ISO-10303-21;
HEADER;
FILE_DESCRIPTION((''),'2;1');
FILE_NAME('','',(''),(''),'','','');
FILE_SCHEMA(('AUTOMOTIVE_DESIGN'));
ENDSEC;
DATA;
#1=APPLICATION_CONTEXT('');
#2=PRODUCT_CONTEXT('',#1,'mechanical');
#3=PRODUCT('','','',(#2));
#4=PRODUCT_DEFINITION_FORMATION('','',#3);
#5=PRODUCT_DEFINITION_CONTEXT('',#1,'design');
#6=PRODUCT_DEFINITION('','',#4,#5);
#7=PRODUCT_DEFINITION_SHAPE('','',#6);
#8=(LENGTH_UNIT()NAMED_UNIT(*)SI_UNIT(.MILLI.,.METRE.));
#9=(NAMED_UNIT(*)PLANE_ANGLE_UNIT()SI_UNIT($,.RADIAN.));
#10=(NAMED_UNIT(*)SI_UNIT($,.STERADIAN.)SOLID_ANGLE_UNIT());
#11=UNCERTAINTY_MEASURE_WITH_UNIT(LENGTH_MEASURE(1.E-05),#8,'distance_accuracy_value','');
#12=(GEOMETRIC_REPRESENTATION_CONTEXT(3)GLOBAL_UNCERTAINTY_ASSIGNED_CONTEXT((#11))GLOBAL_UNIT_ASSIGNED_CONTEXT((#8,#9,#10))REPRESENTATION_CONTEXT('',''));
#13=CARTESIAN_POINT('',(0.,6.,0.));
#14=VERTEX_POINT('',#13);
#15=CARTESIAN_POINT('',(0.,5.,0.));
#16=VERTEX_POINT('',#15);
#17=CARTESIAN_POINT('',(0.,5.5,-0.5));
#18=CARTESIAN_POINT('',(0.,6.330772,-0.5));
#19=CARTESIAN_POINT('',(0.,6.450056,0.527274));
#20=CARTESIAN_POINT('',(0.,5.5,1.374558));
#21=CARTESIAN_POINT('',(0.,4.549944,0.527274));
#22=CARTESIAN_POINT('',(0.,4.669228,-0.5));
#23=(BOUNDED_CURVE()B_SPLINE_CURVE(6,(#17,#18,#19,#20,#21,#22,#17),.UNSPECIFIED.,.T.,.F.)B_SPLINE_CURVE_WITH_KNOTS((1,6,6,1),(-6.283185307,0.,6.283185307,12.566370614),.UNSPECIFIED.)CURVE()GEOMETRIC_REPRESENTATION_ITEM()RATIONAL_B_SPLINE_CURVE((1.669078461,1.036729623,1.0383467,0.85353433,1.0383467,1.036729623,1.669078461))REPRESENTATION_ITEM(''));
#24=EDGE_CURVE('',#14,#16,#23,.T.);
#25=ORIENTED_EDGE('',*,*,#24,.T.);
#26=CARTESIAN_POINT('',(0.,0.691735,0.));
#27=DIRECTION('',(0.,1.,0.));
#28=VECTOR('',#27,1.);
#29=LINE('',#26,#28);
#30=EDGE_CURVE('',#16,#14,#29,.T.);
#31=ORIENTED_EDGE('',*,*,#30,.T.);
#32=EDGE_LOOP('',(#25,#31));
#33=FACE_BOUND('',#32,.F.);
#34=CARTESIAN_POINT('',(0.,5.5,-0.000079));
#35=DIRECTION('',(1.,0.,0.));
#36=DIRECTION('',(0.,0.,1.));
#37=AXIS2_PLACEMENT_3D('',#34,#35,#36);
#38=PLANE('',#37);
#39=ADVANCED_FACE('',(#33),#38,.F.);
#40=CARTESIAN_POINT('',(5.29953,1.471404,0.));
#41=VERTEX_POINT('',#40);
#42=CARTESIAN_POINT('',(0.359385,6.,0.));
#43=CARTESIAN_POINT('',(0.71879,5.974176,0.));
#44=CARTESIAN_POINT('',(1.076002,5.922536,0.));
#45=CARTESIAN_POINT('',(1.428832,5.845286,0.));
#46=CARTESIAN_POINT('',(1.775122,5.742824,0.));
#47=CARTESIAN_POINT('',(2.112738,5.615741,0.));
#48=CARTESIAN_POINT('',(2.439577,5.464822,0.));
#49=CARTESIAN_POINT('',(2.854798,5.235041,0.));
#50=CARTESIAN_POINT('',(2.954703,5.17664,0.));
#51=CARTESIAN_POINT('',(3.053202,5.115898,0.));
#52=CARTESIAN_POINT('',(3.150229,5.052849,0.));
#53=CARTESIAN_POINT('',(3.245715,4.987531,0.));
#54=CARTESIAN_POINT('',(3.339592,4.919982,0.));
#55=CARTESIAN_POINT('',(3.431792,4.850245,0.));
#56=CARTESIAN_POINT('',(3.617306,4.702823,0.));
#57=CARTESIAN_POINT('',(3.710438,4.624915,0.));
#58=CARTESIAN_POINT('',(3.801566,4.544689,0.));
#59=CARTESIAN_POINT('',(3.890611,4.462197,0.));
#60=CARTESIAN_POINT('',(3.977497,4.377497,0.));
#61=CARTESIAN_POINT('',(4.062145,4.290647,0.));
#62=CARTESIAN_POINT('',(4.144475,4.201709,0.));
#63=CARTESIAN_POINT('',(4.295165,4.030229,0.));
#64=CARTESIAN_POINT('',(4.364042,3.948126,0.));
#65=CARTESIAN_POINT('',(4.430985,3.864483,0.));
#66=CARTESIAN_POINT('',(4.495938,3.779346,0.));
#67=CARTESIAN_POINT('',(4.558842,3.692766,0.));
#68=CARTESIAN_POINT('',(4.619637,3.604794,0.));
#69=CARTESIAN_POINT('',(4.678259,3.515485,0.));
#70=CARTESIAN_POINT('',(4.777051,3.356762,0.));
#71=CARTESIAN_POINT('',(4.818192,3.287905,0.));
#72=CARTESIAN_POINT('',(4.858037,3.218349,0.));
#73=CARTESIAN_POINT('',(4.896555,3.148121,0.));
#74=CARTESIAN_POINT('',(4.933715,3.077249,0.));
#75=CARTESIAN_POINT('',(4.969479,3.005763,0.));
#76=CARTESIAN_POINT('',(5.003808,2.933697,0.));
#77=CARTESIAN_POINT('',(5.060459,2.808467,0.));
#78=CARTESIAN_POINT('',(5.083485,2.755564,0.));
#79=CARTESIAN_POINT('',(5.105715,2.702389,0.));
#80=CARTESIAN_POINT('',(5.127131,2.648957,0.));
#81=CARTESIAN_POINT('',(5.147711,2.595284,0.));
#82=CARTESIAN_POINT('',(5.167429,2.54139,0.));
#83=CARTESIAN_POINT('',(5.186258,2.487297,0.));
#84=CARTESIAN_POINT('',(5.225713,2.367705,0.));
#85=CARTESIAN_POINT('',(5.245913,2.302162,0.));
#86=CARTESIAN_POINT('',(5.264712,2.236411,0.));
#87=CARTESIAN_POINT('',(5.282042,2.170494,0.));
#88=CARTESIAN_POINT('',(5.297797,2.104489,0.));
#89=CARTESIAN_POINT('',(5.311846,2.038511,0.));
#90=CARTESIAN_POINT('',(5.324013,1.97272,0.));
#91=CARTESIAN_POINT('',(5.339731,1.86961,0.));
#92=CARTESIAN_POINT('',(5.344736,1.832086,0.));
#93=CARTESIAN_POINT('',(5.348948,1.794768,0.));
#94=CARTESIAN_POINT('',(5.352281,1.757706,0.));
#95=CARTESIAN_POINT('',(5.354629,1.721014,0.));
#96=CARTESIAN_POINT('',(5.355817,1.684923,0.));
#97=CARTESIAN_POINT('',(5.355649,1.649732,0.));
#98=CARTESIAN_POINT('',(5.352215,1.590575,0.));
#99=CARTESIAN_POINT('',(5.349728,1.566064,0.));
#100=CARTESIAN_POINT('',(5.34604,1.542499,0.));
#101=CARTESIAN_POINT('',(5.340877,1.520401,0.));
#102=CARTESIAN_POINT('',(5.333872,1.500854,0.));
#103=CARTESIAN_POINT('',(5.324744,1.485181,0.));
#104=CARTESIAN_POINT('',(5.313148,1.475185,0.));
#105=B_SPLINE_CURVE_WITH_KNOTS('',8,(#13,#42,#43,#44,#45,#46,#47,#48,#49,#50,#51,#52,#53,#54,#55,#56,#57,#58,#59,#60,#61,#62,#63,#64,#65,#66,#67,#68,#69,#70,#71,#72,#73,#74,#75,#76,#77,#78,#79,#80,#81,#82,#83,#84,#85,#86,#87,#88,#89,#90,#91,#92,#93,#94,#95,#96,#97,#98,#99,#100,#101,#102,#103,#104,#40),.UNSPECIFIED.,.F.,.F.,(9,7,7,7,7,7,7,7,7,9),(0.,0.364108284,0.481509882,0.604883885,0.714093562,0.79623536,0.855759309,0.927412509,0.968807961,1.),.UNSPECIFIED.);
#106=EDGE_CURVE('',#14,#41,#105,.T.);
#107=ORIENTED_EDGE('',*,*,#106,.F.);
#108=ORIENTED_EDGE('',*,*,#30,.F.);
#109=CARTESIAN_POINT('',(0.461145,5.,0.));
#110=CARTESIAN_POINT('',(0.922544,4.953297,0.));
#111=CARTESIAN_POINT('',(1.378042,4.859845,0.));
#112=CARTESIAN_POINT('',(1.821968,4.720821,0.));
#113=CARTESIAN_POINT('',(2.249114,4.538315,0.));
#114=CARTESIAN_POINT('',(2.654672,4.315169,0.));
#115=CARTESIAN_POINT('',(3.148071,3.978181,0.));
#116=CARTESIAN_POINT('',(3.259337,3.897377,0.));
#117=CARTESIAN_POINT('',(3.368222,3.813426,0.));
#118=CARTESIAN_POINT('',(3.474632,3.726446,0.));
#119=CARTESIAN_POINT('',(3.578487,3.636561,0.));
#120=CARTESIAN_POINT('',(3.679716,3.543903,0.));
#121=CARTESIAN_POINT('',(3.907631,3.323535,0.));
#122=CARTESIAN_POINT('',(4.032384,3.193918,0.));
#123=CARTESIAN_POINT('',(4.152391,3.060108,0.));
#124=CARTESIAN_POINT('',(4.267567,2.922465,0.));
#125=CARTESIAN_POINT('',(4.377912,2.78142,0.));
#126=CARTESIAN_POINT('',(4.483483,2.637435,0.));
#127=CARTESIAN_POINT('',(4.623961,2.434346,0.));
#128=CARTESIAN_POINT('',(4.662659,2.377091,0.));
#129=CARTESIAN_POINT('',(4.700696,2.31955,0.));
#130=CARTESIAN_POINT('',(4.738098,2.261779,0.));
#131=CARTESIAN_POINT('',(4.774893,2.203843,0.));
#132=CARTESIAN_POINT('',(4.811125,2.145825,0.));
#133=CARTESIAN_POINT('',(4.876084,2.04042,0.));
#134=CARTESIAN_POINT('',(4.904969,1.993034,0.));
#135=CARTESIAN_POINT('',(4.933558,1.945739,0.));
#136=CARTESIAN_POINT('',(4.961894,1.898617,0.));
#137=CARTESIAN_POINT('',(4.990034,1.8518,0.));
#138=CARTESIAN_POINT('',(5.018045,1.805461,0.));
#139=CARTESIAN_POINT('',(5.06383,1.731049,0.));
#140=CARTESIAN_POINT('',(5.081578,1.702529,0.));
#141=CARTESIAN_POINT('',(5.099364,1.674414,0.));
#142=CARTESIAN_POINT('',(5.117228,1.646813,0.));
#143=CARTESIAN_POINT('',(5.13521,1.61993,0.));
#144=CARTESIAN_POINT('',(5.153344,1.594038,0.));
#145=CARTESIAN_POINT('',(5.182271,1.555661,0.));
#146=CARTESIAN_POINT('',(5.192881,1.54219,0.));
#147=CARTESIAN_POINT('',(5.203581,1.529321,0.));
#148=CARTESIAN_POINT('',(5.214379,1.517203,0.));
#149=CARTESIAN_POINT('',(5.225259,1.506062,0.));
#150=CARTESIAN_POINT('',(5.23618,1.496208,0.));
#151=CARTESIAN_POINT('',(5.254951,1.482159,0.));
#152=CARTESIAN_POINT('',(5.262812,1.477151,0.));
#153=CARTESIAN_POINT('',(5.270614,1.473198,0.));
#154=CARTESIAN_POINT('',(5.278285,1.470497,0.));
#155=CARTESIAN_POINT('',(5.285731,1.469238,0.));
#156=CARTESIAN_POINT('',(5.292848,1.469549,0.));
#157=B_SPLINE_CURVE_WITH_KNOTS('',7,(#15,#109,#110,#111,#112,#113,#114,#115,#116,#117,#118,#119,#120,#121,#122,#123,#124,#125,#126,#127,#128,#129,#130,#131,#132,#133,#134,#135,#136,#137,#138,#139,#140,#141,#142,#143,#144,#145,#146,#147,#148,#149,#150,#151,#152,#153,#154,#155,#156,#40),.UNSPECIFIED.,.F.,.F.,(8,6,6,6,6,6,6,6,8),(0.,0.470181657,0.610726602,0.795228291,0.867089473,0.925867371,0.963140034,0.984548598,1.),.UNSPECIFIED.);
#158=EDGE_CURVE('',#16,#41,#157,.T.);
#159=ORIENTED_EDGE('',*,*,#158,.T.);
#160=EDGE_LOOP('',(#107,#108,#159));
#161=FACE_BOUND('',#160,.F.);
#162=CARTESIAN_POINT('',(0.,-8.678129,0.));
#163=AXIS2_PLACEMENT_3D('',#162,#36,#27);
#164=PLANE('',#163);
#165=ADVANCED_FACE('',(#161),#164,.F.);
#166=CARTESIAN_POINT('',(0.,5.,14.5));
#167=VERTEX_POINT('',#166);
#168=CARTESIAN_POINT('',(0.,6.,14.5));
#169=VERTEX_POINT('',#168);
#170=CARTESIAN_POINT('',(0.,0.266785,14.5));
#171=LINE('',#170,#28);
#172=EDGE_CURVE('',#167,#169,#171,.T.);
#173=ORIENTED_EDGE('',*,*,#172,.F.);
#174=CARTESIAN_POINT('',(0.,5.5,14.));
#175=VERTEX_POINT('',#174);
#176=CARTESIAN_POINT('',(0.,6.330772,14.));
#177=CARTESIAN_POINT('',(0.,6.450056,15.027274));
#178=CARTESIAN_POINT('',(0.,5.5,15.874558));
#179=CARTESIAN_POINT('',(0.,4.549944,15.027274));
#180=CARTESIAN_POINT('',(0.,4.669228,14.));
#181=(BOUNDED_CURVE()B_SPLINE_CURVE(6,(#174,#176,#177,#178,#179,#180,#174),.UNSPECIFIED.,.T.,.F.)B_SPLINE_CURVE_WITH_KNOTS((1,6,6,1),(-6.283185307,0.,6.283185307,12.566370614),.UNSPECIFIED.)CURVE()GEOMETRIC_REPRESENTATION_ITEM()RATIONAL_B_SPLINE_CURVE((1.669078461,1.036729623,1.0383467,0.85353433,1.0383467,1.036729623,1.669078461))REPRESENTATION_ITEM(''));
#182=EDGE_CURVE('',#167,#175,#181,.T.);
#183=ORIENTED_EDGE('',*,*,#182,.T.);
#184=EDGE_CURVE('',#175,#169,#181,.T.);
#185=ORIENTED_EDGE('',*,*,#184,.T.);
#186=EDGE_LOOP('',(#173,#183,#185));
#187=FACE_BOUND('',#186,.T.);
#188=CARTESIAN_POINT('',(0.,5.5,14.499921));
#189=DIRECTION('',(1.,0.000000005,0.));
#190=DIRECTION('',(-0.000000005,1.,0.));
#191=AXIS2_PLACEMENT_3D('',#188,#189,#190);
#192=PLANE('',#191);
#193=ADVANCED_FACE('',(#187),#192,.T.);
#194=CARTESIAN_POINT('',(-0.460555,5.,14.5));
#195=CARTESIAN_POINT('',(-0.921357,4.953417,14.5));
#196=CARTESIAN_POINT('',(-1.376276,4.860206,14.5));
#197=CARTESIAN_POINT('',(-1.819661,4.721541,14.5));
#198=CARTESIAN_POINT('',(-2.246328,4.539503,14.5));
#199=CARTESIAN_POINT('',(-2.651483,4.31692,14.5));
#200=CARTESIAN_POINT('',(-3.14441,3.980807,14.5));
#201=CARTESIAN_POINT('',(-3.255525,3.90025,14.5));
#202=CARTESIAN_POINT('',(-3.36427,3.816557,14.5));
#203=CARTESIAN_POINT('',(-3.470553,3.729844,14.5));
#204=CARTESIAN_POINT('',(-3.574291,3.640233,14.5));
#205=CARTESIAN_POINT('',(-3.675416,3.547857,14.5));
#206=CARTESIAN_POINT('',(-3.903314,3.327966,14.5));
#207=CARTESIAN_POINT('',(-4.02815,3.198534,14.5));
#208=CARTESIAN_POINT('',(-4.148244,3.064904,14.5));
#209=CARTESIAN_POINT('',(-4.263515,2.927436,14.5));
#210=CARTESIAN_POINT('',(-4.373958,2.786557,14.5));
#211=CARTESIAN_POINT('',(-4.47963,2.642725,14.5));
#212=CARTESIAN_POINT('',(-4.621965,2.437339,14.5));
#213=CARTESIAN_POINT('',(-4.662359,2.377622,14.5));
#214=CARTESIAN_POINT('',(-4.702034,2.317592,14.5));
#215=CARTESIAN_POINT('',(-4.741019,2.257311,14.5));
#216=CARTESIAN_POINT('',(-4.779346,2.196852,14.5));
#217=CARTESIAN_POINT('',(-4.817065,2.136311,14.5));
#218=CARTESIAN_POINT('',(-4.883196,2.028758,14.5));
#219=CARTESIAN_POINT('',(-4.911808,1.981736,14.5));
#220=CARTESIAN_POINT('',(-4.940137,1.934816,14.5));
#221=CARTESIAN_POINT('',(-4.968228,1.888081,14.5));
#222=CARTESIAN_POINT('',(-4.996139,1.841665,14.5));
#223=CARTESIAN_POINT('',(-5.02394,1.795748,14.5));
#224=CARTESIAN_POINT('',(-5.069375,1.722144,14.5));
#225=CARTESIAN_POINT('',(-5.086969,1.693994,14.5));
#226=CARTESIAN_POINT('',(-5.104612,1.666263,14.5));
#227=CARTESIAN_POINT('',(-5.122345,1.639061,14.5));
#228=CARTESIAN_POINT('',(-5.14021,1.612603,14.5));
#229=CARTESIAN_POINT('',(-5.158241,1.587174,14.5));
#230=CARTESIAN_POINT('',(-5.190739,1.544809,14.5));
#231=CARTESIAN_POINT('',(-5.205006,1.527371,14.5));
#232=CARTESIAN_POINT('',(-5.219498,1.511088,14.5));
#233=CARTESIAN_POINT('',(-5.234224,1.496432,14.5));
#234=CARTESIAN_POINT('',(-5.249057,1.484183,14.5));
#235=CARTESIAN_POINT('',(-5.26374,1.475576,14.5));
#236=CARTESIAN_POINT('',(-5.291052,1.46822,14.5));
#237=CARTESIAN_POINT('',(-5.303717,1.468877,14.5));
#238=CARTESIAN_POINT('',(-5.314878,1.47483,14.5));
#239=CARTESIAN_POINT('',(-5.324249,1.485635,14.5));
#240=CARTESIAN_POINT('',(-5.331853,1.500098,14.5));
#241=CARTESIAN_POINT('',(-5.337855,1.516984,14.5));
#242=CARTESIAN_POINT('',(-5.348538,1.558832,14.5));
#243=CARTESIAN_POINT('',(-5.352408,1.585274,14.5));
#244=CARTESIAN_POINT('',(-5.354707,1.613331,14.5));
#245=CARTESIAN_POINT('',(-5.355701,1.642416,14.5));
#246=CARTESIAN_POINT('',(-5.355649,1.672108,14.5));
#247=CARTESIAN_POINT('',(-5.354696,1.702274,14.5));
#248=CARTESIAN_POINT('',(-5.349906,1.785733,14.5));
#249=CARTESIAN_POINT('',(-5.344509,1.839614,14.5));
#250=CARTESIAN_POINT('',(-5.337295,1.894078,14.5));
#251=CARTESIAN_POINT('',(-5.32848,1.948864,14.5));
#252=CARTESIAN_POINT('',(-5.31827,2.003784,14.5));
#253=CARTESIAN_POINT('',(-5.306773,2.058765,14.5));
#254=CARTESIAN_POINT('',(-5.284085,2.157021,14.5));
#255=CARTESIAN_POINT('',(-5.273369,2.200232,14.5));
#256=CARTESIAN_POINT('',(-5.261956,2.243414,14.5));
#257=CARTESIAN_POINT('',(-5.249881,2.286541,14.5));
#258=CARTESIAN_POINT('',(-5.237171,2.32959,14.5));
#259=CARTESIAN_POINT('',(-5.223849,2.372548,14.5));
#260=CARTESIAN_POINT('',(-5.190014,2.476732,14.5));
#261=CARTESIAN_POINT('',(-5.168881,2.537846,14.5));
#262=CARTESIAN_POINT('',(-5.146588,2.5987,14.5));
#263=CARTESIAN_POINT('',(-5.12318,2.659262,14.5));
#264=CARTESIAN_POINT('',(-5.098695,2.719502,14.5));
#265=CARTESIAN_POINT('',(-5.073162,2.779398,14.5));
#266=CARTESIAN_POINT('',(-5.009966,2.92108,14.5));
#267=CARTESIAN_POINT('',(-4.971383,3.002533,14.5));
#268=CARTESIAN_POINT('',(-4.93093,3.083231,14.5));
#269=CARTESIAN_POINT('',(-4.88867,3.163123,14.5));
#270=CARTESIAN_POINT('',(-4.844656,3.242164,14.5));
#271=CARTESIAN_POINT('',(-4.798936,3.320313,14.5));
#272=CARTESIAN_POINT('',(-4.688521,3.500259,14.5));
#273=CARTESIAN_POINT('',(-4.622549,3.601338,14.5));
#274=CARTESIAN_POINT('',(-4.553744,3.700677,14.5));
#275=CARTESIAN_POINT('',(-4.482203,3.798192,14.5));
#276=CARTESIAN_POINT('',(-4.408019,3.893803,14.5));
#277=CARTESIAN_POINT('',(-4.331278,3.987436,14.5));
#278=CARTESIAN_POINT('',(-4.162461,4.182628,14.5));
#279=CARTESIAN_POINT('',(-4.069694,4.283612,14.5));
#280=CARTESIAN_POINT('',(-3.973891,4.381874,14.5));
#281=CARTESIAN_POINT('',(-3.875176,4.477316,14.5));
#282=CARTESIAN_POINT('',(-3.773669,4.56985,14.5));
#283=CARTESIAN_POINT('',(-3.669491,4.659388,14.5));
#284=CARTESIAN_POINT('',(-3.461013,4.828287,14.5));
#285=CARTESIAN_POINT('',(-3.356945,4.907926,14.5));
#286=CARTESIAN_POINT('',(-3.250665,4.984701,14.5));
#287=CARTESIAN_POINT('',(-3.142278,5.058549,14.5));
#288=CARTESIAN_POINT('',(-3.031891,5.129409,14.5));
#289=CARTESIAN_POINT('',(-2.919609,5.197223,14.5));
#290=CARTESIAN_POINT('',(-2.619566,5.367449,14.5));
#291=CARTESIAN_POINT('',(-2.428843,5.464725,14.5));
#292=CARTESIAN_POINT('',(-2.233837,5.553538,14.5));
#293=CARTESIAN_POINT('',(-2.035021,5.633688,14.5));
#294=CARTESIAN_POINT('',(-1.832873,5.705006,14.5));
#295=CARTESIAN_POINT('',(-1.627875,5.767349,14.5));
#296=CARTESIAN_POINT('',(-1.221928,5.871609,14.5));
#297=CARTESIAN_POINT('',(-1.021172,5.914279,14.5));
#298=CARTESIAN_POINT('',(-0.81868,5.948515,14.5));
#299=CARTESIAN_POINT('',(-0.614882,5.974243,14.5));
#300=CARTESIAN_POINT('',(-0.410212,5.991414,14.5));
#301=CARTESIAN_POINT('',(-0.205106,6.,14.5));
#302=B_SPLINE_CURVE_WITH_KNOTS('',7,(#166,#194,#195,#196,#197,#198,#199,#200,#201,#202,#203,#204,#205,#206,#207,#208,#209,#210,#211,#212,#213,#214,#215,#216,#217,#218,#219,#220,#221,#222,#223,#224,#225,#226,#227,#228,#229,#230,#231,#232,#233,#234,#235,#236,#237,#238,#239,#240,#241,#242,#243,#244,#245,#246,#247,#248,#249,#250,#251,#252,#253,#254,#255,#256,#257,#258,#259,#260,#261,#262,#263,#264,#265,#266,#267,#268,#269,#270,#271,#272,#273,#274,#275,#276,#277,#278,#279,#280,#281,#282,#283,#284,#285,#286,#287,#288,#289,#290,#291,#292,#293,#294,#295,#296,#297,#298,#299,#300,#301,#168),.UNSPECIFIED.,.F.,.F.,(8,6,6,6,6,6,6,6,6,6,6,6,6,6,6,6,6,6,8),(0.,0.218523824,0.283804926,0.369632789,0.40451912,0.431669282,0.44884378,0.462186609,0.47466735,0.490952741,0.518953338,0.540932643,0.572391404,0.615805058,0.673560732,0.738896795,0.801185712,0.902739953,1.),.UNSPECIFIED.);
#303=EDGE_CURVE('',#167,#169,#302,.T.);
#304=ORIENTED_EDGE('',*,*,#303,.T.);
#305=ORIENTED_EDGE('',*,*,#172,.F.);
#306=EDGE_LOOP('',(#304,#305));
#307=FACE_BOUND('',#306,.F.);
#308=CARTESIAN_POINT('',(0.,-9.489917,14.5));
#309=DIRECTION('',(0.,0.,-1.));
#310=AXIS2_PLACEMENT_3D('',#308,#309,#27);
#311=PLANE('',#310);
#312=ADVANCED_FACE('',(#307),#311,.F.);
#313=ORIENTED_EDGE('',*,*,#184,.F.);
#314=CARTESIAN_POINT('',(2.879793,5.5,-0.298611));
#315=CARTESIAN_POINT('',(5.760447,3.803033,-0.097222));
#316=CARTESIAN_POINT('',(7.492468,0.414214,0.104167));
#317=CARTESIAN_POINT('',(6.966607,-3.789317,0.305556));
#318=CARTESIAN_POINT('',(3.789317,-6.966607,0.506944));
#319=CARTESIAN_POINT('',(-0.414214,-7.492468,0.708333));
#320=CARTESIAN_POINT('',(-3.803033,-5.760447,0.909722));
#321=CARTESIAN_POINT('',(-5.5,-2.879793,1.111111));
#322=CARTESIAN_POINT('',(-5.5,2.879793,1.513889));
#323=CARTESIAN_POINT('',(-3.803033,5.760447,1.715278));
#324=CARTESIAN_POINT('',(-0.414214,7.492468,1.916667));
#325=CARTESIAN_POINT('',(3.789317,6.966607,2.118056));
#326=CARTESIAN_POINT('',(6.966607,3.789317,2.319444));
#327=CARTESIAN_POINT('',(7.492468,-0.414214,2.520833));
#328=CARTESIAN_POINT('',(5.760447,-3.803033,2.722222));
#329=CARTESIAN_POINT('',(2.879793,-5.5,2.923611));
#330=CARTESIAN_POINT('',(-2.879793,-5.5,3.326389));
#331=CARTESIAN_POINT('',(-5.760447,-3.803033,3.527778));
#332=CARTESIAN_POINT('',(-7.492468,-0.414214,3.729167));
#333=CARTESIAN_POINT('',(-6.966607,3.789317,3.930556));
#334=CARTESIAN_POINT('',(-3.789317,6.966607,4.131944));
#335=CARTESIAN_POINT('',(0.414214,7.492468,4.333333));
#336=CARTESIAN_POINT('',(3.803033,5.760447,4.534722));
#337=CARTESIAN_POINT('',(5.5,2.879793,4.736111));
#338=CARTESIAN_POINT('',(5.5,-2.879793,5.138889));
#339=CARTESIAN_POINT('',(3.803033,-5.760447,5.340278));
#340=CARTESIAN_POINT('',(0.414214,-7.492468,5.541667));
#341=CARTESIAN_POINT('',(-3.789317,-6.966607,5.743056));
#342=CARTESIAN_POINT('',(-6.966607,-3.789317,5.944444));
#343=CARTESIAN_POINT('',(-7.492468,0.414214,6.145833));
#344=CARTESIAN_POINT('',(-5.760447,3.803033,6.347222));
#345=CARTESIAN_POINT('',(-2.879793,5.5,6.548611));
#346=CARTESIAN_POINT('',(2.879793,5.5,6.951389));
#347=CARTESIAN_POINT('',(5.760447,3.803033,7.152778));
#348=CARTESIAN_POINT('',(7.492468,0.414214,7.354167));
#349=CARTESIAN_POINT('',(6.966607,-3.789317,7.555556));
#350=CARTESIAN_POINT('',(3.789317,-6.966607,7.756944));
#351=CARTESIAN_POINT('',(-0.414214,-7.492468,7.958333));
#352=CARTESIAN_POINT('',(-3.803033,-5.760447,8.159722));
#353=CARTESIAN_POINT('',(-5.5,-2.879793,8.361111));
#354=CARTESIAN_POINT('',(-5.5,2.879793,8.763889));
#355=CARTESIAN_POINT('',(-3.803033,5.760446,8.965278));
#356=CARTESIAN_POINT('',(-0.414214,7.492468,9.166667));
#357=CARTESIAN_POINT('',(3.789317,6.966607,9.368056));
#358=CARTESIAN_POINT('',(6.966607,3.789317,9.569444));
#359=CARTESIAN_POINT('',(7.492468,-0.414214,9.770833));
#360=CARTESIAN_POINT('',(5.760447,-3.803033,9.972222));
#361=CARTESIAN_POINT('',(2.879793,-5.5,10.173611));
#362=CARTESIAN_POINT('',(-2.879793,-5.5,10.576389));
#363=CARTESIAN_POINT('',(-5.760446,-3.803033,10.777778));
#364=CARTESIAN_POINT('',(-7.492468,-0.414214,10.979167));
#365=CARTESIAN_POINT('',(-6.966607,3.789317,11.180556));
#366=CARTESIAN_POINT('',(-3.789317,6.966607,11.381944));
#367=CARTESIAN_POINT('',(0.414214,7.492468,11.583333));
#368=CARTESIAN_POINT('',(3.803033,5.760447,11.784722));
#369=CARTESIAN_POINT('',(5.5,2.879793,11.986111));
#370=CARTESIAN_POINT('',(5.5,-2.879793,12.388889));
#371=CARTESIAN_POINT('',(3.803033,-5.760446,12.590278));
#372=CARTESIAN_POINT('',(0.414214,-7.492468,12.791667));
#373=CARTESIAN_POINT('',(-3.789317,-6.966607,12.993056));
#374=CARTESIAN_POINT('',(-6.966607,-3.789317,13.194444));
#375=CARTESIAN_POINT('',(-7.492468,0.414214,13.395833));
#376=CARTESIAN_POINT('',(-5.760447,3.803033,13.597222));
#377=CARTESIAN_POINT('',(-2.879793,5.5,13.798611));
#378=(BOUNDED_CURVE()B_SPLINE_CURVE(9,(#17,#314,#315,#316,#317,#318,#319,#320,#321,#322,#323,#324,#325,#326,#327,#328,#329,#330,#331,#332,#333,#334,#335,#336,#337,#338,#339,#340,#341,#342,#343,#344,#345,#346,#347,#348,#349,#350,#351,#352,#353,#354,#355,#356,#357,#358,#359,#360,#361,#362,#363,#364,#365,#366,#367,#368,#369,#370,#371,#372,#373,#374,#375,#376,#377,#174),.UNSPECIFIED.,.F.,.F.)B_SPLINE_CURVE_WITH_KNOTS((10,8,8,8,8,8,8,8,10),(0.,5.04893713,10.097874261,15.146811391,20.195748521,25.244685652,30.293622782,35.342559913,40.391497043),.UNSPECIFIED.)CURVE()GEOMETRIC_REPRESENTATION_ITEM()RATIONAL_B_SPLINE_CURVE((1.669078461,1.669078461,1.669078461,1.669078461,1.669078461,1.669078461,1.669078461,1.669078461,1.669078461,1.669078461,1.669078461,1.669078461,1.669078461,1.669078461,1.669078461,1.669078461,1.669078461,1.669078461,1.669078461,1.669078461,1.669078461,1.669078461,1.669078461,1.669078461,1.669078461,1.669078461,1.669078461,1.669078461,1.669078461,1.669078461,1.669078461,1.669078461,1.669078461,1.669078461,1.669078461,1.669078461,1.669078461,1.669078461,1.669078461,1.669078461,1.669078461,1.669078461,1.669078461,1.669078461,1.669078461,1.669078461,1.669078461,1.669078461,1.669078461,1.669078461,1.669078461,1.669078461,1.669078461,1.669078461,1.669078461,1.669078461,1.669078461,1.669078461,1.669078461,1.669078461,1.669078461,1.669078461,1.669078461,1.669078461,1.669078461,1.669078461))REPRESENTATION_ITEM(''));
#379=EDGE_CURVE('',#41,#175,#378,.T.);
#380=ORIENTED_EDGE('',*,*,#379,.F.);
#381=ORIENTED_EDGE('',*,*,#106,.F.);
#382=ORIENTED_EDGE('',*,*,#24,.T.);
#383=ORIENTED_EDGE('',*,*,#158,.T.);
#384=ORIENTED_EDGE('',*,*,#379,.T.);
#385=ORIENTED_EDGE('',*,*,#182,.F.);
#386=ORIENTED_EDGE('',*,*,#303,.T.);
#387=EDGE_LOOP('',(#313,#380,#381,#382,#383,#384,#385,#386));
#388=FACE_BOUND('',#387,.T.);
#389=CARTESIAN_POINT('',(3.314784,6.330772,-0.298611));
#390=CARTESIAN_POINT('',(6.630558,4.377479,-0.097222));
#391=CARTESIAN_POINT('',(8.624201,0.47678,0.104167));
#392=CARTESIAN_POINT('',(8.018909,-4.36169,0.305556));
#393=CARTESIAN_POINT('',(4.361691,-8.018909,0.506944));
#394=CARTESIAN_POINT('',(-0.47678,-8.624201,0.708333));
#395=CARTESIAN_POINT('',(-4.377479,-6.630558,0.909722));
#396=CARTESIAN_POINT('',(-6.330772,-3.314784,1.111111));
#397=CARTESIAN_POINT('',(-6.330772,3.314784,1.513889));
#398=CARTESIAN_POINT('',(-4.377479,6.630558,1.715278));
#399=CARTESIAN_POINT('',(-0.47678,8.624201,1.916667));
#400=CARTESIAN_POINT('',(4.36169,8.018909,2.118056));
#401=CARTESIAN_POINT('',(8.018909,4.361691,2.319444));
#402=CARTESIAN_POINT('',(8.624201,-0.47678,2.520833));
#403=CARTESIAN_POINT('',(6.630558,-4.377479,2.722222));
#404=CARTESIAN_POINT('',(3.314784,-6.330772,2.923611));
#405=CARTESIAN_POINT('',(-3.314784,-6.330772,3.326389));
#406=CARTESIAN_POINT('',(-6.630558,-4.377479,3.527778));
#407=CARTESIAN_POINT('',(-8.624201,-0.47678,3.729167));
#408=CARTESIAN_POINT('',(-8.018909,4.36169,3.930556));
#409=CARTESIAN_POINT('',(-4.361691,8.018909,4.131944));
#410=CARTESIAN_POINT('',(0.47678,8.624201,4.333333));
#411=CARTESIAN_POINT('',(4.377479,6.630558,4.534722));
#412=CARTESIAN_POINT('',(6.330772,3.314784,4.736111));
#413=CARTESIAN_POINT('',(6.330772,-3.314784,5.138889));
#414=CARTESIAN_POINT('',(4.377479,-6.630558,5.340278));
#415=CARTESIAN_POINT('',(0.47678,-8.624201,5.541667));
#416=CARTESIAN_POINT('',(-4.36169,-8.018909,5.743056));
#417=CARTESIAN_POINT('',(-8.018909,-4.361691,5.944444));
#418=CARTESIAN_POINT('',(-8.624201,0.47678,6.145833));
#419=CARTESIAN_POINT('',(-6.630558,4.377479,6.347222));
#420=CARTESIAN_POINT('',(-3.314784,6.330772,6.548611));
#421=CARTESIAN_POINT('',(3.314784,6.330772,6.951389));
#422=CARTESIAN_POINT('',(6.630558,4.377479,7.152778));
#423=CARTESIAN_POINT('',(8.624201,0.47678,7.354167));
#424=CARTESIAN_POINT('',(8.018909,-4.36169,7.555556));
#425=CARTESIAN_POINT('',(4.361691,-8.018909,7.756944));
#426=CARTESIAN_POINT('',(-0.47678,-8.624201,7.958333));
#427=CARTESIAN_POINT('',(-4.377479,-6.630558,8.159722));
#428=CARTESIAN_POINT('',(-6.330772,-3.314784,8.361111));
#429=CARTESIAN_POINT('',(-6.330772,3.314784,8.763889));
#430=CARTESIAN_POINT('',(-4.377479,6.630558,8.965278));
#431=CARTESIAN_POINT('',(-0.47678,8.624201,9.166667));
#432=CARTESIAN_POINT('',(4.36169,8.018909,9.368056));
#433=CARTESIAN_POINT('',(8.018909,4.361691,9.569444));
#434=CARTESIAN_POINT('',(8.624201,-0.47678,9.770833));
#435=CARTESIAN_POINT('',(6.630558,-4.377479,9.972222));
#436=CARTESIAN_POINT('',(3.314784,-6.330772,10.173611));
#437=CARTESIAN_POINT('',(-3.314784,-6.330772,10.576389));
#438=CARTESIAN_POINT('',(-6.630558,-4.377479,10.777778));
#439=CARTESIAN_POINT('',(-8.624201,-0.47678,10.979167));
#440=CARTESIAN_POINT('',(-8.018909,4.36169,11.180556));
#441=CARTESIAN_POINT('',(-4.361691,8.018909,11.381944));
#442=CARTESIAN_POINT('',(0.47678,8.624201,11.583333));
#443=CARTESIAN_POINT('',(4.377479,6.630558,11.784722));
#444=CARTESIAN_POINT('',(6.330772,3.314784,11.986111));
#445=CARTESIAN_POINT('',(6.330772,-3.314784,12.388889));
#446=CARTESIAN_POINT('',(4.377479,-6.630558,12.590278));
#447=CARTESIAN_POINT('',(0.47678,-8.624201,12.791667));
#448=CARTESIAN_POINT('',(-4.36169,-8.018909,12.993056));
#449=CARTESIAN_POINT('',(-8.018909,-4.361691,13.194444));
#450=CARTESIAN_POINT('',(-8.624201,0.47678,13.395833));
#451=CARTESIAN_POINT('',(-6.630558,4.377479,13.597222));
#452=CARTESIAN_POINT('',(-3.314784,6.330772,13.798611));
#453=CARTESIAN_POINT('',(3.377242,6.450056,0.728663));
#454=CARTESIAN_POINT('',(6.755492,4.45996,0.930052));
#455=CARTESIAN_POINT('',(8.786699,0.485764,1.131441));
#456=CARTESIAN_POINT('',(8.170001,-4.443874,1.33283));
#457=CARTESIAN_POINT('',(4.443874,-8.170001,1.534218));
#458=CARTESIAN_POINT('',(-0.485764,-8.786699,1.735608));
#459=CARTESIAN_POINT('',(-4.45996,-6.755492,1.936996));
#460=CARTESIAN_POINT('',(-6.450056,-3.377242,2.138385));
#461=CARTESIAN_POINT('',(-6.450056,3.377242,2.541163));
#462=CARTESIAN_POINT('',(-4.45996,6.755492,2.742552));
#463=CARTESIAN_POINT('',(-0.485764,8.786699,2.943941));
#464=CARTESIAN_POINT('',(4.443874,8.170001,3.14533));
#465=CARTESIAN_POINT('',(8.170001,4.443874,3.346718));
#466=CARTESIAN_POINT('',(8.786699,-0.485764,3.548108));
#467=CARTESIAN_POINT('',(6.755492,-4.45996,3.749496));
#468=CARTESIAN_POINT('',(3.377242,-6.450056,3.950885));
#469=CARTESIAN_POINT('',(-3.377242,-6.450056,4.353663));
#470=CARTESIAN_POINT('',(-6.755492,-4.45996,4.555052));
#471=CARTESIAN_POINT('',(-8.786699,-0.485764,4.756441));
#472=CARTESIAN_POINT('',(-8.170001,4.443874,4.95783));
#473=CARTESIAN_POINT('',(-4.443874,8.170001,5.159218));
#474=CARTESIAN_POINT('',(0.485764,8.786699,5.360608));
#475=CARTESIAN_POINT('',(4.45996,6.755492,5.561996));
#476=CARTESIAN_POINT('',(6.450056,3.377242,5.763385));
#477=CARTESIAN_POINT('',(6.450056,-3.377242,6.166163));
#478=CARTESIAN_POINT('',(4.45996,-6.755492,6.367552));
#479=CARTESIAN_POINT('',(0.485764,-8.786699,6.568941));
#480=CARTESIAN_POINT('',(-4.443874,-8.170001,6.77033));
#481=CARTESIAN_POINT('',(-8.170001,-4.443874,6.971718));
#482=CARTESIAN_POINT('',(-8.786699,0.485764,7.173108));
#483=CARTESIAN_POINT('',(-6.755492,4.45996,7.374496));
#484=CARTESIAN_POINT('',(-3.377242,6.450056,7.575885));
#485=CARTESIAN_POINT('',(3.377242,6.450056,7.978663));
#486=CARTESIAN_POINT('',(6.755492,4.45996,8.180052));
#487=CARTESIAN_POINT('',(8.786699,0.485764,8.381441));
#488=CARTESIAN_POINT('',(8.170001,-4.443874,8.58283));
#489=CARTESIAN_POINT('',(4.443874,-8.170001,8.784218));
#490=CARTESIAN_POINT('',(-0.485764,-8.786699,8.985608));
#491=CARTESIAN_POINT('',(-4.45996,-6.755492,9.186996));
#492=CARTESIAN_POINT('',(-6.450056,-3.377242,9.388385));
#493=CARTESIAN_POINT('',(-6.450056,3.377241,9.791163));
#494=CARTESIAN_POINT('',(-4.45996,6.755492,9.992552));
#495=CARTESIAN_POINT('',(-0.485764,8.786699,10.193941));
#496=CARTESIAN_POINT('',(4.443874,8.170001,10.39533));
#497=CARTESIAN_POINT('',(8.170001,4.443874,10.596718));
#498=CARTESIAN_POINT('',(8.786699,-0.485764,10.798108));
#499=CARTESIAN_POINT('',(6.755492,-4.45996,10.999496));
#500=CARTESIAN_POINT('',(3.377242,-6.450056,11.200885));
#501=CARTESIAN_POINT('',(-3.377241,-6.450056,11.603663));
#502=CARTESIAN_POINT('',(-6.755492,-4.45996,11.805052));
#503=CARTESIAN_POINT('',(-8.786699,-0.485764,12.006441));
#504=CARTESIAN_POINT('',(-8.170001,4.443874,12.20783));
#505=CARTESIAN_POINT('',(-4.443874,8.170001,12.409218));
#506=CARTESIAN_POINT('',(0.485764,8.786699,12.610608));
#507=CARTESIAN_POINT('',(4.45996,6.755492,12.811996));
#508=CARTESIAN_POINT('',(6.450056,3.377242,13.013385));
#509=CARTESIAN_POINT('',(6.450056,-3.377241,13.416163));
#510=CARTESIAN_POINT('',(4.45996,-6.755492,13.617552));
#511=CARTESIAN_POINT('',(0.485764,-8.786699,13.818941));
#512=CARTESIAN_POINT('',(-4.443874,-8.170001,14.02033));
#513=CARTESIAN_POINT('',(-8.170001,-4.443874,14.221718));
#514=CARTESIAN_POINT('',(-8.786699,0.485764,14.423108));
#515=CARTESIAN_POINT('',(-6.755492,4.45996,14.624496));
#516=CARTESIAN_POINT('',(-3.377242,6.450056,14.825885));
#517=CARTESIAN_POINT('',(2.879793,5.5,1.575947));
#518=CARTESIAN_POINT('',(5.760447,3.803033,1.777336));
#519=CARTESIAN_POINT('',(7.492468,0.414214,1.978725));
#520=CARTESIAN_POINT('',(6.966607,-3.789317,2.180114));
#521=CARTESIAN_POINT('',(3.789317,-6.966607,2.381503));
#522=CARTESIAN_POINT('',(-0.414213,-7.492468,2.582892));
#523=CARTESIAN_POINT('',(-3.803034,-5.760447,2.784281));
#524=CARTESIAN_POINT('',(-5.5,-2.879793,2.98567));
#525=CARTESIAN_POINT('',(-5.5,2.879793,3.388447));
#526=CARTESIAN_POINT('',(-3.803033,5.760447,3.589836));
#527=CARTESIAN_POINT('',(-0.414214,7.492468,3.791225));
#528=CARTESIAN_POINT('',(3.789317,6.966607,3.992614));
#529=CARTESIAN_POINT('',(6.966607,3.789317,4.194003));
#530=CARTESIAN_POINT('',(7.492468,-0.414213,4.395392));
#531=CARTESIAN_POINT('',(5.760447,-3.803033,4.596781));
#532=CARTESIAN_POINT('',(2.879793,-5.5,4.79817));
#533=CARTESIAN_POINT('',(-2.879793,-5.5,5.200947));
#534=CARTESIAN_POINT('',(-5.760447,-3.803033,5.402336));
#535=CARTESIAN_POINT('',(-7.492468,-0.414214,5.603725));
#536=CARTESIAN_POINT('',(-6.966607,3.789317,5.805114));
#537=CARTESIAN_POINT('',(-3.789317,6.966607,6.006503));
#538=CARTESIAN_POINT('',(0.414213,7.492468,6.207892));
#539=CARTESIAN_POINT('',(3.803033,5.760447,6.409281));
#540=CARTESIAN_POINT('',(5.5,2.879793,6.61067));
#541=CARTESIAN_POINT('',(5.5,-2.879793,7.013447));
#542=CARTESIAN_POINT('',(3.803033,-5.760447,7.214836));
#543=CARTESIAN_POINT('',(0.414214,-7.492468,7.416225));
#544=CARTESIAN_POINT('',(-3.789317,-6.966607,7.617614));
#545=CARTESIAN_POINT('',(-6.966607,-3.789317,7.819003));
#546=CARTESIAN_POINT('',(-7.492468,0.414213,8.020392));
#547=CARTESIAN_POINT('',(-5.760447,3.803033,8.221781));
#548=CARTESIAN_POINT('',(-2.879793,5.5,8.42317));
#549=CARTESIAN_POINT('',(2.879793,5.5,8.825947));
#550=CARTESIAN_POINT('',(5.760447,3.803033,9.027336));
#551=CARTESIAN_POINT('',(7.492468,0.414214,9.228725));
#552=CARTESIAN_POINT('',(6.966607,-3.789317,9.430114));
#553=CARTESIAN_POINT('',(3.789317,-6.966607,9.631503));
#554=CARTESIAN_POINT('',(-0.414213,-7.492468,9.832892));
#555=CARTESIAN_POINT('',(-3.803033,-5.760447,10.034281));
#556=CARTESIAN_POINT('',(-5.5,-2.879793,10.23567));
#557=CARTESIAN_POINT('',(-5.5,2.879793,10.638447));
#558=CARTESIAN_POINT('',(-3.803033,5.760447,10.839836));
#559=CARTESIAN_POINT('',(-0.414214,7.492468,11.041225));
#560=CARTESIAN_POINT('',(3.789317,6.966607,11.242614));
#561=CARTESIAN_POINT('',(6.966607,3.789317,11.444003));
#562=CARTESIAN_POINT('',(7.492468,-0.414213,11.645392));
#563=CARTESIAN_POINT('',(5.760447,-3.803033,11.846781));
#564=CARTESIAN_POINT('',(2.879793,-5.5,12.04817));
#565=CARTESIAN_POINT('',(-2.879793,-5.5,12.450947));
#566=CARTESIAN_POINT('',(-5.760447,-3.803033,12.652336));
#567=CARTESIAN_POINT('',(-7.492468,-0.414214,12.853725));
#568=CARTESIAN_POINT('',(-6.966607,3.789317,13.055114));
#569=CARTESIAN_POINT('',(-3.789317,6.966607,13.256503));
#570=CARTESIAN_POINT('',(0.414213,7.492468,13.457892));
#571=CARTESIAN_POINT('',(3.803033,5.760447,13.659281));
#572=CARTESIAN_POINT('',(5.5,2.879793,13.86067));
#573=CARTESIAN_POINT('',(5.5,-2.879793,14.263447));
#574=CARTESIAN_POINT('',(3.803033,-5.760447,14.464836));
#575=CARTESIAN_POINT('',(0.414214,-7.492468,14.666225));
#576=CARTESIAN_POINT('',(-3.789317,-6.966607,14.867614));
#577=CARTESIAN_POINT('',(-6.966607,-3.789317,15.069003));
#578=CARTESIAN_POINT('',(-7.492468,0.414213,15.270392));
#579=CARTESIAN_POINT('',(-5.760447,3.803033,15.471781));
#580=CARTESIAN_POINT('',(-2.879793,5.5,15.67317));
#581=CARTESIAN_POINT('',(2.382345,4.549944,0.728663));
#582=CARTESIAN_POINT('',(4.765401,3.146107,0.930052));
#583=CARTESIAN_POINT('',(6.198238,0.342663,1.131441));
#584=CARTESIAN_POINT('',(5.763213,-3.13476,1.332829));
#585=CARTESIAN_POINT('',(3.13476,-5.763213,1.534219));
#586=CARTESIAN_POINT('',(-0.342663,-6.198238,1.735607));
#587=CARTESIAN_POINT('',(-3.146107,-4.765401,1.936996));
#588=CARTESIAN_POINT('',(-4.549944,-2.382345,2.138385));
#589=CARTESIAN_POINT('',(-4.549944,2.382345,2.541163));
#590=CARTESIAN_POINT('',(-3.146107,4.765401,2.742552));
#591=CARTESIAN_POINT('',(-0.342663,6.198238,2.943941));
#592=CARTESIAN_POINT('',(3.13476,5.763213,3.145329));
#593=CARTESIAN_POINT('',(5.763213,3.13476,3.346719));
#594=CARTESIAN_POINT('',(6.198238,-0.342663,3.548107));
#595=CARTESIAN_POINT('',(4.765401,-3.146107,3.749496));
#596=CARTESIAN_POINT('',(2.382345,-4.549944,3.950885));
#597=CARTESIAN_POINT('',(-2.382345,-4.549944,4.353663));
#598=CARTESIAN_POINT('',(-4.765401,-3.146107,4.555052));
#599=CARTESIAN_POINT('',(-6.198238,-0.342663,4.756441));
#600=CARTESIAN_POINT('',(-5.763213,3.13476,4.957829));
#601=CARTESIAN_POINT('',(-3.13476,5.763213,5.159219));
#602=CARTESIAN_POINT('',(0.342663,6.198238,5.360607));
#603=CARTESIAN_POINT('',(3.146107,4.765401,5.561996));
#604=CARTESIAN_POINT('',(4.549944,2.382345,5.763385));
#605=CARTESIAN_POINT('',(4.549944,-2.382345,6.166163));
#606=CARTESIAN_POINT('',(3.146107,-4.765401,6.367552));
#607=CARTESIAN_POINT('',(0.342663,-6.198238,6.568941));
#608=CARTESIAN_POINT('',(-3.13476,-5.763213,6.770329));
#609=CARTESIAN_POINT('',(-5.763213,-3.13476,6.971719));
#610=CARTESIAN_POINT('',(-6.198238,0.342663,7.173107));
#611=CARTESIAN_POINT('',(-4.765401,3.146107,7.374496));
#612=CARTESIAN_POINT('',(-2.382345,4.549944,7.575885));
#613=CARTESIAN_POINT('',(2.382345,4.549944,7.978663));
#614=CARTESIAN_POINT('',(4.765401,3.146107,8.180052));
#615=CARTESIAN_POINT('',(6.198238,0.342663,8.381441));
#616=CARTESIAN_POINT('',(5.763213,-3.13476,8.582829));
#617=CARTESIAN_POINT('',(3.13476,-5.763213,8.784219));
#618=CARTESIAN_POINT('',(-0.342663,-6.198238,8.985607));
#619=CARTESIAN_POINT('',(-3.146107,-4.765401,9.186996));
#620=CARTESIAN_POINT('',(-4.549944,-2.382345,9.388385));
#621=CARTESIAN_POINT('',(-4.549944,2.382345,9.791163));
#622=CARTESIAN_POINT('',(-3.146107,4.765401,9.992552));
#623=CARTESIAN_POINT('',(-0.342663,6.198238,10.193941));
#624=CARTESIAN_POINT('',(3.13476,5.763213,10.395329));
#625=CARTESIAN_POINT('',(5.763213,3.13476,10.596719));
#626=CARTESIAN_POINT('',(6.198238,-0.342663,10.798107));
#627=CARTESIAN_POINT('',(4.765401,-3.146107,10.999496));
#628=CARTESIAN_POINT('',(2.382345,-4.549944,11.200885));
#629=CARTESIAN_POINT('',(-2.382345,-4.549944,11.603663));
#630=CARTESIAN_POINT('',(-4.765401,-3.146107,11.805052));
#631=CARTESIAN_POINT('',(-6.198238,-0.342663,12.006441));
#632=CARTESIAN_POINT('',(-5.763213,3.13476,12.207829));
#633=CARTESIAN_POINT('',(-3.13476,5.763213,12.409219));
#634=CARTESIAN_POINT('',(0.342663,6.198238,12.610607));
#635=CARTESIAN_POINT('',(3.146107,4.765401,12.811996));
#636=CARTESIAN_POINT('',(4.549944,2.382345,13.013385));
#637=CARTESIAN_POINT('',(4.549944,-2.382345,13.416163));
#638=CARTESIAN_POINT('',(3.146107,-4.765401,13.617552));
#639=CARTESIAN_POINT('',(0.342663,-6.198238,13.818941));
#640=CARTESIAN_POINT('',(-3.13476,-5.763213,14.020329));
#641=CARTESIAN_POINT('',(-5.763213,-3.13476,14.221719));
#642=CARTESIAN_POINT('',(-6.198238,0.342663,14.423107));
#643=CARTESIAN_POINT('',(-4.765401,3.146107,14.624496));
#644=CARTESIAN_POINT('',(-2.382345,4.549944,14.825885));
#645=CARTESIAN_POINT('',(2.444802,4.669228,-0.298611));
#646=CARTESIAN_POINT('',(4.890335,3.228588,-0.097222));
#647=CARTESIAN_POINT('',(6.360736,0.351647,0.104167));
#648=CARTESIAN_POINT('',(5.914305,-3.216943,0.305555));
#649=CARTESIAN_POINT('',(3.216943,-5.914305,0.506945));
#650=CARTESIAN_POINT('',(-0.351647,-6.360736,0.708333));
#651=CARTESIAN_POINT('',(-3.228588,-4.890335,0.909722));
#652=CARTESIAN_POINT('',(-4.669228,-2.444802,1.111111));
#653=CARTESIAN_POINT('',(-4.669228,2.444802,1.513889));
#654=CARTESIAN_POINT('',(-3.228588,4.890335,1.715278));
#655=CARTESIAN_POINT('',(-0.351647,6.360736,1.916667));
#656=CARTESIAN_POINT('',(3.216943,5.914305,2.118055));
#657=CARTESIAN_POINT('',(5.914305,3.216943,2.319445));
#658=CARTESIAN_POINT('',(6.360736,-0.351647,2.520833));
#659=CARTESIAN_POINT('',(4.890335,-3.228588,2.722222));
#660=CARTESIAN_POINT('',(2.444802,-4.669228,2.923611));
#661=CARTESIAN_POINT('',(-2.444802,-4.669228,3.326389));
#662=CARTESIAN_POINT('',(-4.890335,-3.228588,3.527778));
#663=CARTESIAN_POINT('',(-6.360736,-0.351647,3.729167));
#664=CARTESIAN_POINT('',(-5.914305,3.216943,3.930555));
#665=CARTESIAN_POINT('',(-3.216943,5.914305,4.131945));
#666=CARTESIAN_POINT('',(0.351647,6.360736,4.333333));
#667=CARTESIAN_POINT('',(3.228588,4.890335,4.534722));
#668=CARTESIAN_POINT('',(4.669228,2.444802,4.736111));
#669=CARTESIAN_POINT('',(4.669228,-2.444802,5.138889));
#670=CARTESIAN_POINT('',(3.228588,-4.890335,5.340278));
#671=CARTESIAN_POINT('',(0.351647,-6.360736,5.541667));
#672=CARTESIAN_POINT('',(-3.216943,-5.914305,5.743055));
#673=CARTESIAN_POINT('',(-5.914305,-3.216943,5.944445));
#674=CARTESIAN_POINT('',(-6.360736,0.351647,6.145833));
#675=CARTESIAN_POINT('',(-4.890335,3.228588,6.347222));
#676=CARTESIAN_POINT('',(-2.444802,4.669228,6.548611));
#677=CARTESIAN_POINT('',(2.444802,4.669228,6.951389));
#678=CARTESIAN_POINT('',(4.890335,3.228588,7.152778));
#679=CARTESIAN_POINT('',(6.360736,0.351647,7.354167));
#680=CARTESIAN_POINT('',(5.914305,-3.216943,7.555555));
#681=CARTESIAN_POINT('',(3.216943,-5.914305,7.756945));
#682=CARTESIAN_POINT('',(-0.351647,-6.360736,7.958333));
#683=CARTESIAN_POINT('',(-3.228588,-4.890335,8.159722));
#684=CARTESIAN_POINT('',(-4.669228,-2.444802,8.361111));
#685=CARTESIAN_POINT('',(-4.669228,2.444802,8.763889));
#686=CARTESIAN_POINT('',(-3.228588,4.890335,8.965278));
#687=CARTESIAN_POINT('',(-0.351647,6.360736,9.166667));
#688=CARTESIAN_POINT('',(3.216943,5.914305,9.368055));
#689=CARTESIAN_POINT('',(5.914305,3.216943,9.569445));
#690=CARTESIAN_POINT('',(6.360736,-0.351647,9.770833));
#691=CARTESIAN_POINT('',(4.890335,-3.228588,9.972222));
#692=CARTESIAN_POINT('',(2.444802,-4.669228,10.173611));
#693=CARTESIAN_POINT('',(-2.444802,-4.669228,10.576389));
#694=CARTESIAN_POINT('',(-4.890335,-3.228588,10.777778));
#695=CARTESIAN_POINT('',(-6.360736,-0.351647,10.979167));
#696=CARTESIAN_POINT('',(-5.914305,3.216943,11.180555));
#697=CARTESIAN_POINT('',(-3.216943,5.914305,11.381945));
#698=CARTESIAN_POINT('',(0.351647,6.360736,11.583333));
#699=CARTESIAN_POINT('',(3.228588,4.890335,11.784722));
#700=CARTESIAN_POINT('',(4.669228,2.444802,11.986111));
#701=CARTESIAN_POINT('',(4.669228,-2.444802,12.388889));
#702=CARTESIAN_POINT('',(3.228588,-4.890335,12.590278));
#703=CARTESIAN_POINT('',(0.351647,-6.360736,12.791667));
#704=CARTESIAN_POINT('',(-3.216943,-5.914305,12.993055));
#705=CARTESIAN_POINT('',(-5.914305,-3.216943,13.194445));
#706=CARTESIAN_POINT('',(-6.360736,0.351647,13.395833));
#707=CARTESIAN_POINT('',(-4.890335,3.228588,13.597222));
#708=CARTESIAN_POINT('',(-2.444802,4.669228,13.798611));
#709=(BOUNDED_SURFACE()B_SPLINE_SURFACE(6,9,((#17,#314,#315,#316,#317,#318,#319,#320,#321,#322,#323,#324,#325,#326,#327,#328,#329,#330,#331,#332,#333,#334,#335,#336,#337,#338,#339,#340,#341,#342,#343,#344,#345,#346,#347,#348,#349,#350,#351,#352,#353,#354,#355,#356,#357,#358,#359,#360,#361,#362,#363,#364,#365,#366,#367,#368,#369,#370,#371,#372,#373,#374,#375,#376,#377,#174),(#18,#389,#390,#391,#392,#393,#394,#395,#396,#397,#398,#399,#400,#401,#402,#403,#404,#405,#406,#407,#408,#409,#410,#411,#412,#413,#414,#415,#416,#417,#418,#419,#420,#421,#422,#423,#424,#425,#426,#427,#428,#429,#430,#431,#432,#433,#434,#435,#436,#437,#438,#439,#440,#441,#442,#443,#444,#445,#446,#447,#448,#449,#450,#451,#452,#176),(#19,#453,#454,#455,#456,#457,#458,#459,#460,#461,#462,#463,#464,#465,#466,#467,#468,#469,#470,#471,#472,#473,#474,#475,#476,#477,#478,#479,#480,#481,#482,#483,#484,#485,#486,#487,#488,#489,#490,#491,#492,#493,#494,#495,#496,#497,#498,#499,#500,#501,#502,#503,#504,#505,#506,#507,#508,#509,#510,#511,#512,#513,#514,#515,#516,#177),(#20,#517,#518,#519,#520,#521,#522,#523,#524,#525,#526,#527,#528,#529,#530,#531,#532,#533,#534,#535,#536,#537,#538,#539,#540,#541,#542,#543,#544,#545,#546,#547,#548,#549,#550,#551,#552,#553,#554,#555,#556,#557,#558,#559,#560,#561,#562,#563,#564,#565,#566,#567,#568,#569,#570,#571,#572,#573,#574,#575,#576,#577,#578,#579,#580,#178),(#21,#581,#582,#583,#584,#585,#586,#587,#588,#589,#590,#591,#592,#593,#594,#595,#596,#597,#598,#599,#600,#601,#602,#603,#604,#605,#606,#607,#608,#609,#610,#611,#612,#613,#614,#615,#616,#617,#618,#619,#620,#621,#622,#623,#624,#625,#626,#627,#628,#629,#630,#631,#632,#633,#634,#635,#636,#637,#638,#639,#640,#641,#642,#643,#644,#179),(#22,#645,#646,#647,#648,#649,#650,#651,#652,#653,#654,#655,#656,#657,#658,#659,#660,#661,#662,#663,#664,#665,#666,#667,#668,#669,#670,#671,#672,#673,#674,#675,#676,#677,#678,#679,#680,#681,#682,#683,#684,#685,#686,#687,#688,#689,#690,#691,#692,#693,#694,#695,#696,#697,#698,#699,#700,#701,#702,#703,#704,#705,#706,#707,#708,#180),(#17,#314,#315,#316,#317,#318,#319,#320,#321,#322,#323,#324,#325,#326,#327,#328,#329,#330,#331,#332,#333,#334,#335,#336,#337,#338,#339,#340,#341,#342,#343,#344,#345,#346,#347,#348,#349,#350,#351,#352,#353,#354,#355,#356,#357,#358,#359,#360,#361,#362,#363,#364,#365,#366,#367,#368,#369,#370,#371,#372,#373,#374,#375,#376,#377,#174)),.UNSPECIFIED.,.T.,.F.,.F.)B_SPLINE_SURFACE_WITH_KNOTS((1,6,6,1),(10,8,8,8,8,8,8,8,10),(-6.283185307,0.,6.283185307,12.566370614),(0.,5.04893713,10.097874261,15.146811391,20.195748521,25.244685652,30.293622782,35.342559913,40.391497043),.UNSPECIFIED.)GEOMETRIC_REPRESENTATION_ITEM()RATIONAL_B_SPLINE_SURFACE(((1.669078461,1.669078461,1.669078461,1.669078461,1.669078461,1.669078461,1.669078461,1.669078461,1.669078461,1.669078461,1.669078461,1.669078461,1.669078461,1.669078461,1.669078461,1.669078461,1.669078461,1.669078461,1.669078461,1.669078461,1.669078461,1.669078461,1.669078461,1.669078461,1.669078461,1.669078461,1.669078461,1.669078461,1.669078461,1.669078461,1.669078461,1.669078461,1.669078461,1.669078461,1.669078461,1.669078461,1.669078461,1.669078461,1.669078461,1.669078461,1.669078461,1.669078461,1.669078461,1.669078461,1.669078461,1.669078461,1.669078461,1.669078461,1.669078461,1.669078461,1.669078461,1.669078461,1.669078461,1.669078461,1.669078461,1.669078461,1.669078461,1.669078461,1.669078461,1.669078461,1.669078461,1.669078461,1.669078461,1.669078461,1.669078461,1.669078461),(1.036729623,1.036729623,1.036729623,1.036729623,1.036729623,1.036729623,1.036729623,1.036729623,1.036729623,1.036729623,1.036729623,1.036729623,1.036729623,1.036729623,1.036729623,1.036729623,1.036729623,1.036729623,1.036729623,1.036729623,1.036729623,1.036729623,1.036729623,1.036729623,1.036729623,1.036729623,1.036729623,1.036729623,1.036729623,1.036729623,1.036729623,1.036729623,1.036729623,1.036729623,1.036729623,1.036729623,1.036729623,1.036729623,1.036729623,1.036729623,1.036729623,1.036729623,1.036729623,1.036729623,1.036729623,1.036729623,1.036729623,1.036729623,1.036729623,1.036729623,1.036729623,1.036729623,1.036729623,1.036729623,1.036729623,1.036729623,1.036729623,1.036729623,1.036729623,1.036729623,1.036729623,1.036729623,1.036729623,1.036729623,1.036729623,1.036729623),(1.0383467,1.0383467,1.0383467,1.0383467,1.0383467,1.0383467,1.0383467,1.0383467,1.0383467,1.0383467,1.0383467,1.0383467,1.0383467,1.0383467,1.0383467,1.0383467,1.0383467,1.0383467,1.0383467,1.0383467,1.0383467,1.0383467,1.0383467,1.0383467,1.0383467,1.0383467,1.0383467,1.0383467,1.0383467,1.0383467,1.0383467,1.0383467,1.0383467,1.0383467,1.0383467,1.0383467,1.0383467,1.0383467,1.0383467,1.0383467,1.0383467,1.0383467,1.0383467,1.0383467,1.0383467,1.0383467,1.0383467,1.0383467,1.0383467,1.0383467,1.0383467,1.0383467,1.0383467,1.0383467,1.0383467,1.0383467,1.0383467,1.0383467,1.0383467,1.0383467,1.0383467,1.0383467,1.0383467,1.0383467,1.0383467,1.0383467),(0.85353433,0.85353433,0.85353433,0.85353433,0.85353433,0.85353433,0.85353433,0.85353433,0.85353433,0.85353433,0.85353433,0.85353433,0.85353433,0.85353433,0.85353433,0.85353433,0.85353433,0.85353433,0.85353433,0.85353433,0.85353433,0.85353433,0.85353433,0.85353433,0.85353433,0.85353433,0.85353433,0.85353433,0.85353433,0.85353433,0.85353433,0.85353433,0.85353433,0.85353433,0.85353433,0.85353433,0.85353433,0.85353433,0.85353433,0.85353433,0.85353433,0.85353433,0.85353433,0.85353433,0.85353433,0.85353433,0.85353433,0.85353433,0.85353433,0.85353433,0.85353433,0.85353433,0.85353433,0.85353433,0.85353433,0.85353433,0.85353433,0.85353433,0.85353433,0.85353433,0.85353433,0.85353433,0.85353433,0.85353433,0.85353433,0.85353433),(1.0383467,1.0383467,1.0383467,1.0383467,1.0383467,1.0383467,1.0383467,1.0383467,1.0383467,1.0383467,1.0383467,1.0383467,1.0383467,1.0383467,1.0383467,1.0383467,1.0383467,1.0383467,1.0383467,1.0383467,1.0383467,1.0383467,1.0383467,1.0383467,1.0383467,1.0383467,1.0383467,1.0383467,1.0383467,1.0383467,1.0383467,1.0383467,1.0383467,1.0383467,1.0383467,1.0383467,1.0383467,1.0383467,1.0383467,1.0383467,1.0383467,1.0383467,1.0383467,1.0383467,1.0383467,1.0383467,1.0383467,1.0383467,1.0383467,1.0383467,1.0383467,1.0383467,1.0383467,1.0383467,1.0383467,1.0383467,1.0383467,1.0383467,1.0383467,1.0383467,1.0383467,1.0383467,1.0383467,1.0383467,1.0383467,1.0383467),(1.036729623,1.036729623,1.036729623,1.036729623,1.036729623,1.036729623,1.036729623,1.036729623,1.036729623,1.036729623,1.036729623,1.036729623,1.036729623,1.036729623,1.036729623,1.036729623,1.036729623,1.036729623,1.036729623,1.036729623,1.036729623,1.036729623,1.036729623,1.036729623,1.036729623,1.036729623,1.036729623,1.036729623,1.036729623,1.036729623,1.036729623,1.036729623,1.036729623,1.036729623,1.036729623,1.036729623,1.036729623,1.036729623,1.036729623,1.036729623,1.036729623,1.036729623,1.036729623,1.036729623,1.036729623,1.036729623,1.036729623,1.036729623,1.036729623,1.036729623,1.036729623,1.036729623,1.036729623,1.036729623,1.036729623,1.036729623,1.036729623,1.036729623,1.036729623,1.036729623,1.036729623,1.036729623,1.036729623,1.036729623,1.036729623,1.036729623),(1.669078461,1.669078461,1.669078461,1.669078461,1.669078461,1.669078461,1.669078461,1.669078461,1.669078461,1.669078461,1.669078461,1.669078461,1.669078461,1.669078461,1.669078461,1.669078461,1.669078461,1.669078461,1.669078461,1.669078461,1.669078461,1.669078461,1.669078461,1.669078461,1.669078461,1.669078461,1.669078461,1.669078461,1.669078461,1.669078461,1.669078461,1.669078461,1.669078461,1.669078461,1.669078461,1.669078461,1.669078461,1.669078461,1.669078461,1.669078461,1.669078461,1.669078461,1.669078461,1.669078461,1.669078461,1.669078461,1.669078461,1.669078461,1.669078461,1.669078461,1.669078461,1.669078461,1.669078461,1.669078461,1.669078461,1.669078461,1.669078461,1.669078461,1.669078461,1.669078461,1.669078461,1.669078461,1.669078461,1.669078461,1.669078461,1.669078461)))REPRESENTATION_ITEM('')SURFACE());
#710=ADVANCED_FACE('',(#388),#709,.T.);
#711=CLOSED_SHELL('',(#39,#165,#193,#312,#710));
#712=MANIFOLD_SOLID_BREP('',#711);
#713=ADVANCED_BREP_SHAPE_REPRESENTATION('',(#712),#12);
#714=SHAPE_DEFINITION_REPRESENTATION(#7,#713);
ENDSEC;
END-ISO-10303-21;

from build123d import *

# Parameters (mm, degrees)
BALAYAGE1_PITCH         = 2.416666667
BALAYAGE1_HEIGHT        = 14.5
BALAYAGE1_RADIUS        = 5.5
BALAYAGE1_START_ANGLE   = 90
ESQUISSE3_R             = 0.5
ESQUISSE4_W             = 2.379125605
ESQUISSE4_H             = 19.513404189
ENL_V_MAT_EXTRU_1_DEPTH = 18.233700643
ESQUISSE5_W             = 2.146641688
ESQUISSE5_H             = 18.739728202
ENL_V_MAT_EXTRU_2_DEPTH = 18.233700643


with BuildPart() as part:
    # Balayage1: sweep along a helix
    with BuildLine() as balayage1_path:
        add(Helix(BALAYAGE1_PITCH, BALAYAGE1_HEIGHT, BALAYAGE1_RADIUS, center=(0, 0, 0), direction=(0, 0, 1), lefthand=True, mode=Mode.PRIVATE).rotate(Axis((0, 0, 0), (0, 0, 1)), BALAYAGE1_START_ANGLE))
    # Esquisse3 → Balayage1 (sweep)
    with BuildSketch(Plane(origin=(0, 0, 0), x_dir=(0, 0, -1), z_dir=(1, 0, 0))):
        with Locations((0, 5.5)):
            Circle(ESQUISSE3_R)
    sweep(path=balayage1_path.line, is_frenet=True)

    # Esquisse4 → Enlèv. mat.-Extru.1 (cut, through all)
    with BuildSketch(Plane(origin=(0, 0, 0), x_dir=(0, 0, -1), z_dir=(1, 0, 0))):
        with Locations((-15.689562803, 0.266784824)):
            Rectangle(ESQUISSE4_W, ESQUISSE4_H)
    extrude(amount=-ENL_V_MAT_EXTRU_1_DEPTH, mode=Mode.SUBTRACT)

    # Esquisse5 → Enlèv. mat.-Extru.2 (cut, through all)
    with BuildSketch(Plane.ZY):
        with Locations((-1.073320844, 0.691734934)):
            Rectangle(ESQUISSE5_W, ESQUISSE5_H)
    extrude(amount=-ENL_V_MAT_EXTRU_2_DEPTH, mode=Mode.SUBTRACT)


solid = part.part
